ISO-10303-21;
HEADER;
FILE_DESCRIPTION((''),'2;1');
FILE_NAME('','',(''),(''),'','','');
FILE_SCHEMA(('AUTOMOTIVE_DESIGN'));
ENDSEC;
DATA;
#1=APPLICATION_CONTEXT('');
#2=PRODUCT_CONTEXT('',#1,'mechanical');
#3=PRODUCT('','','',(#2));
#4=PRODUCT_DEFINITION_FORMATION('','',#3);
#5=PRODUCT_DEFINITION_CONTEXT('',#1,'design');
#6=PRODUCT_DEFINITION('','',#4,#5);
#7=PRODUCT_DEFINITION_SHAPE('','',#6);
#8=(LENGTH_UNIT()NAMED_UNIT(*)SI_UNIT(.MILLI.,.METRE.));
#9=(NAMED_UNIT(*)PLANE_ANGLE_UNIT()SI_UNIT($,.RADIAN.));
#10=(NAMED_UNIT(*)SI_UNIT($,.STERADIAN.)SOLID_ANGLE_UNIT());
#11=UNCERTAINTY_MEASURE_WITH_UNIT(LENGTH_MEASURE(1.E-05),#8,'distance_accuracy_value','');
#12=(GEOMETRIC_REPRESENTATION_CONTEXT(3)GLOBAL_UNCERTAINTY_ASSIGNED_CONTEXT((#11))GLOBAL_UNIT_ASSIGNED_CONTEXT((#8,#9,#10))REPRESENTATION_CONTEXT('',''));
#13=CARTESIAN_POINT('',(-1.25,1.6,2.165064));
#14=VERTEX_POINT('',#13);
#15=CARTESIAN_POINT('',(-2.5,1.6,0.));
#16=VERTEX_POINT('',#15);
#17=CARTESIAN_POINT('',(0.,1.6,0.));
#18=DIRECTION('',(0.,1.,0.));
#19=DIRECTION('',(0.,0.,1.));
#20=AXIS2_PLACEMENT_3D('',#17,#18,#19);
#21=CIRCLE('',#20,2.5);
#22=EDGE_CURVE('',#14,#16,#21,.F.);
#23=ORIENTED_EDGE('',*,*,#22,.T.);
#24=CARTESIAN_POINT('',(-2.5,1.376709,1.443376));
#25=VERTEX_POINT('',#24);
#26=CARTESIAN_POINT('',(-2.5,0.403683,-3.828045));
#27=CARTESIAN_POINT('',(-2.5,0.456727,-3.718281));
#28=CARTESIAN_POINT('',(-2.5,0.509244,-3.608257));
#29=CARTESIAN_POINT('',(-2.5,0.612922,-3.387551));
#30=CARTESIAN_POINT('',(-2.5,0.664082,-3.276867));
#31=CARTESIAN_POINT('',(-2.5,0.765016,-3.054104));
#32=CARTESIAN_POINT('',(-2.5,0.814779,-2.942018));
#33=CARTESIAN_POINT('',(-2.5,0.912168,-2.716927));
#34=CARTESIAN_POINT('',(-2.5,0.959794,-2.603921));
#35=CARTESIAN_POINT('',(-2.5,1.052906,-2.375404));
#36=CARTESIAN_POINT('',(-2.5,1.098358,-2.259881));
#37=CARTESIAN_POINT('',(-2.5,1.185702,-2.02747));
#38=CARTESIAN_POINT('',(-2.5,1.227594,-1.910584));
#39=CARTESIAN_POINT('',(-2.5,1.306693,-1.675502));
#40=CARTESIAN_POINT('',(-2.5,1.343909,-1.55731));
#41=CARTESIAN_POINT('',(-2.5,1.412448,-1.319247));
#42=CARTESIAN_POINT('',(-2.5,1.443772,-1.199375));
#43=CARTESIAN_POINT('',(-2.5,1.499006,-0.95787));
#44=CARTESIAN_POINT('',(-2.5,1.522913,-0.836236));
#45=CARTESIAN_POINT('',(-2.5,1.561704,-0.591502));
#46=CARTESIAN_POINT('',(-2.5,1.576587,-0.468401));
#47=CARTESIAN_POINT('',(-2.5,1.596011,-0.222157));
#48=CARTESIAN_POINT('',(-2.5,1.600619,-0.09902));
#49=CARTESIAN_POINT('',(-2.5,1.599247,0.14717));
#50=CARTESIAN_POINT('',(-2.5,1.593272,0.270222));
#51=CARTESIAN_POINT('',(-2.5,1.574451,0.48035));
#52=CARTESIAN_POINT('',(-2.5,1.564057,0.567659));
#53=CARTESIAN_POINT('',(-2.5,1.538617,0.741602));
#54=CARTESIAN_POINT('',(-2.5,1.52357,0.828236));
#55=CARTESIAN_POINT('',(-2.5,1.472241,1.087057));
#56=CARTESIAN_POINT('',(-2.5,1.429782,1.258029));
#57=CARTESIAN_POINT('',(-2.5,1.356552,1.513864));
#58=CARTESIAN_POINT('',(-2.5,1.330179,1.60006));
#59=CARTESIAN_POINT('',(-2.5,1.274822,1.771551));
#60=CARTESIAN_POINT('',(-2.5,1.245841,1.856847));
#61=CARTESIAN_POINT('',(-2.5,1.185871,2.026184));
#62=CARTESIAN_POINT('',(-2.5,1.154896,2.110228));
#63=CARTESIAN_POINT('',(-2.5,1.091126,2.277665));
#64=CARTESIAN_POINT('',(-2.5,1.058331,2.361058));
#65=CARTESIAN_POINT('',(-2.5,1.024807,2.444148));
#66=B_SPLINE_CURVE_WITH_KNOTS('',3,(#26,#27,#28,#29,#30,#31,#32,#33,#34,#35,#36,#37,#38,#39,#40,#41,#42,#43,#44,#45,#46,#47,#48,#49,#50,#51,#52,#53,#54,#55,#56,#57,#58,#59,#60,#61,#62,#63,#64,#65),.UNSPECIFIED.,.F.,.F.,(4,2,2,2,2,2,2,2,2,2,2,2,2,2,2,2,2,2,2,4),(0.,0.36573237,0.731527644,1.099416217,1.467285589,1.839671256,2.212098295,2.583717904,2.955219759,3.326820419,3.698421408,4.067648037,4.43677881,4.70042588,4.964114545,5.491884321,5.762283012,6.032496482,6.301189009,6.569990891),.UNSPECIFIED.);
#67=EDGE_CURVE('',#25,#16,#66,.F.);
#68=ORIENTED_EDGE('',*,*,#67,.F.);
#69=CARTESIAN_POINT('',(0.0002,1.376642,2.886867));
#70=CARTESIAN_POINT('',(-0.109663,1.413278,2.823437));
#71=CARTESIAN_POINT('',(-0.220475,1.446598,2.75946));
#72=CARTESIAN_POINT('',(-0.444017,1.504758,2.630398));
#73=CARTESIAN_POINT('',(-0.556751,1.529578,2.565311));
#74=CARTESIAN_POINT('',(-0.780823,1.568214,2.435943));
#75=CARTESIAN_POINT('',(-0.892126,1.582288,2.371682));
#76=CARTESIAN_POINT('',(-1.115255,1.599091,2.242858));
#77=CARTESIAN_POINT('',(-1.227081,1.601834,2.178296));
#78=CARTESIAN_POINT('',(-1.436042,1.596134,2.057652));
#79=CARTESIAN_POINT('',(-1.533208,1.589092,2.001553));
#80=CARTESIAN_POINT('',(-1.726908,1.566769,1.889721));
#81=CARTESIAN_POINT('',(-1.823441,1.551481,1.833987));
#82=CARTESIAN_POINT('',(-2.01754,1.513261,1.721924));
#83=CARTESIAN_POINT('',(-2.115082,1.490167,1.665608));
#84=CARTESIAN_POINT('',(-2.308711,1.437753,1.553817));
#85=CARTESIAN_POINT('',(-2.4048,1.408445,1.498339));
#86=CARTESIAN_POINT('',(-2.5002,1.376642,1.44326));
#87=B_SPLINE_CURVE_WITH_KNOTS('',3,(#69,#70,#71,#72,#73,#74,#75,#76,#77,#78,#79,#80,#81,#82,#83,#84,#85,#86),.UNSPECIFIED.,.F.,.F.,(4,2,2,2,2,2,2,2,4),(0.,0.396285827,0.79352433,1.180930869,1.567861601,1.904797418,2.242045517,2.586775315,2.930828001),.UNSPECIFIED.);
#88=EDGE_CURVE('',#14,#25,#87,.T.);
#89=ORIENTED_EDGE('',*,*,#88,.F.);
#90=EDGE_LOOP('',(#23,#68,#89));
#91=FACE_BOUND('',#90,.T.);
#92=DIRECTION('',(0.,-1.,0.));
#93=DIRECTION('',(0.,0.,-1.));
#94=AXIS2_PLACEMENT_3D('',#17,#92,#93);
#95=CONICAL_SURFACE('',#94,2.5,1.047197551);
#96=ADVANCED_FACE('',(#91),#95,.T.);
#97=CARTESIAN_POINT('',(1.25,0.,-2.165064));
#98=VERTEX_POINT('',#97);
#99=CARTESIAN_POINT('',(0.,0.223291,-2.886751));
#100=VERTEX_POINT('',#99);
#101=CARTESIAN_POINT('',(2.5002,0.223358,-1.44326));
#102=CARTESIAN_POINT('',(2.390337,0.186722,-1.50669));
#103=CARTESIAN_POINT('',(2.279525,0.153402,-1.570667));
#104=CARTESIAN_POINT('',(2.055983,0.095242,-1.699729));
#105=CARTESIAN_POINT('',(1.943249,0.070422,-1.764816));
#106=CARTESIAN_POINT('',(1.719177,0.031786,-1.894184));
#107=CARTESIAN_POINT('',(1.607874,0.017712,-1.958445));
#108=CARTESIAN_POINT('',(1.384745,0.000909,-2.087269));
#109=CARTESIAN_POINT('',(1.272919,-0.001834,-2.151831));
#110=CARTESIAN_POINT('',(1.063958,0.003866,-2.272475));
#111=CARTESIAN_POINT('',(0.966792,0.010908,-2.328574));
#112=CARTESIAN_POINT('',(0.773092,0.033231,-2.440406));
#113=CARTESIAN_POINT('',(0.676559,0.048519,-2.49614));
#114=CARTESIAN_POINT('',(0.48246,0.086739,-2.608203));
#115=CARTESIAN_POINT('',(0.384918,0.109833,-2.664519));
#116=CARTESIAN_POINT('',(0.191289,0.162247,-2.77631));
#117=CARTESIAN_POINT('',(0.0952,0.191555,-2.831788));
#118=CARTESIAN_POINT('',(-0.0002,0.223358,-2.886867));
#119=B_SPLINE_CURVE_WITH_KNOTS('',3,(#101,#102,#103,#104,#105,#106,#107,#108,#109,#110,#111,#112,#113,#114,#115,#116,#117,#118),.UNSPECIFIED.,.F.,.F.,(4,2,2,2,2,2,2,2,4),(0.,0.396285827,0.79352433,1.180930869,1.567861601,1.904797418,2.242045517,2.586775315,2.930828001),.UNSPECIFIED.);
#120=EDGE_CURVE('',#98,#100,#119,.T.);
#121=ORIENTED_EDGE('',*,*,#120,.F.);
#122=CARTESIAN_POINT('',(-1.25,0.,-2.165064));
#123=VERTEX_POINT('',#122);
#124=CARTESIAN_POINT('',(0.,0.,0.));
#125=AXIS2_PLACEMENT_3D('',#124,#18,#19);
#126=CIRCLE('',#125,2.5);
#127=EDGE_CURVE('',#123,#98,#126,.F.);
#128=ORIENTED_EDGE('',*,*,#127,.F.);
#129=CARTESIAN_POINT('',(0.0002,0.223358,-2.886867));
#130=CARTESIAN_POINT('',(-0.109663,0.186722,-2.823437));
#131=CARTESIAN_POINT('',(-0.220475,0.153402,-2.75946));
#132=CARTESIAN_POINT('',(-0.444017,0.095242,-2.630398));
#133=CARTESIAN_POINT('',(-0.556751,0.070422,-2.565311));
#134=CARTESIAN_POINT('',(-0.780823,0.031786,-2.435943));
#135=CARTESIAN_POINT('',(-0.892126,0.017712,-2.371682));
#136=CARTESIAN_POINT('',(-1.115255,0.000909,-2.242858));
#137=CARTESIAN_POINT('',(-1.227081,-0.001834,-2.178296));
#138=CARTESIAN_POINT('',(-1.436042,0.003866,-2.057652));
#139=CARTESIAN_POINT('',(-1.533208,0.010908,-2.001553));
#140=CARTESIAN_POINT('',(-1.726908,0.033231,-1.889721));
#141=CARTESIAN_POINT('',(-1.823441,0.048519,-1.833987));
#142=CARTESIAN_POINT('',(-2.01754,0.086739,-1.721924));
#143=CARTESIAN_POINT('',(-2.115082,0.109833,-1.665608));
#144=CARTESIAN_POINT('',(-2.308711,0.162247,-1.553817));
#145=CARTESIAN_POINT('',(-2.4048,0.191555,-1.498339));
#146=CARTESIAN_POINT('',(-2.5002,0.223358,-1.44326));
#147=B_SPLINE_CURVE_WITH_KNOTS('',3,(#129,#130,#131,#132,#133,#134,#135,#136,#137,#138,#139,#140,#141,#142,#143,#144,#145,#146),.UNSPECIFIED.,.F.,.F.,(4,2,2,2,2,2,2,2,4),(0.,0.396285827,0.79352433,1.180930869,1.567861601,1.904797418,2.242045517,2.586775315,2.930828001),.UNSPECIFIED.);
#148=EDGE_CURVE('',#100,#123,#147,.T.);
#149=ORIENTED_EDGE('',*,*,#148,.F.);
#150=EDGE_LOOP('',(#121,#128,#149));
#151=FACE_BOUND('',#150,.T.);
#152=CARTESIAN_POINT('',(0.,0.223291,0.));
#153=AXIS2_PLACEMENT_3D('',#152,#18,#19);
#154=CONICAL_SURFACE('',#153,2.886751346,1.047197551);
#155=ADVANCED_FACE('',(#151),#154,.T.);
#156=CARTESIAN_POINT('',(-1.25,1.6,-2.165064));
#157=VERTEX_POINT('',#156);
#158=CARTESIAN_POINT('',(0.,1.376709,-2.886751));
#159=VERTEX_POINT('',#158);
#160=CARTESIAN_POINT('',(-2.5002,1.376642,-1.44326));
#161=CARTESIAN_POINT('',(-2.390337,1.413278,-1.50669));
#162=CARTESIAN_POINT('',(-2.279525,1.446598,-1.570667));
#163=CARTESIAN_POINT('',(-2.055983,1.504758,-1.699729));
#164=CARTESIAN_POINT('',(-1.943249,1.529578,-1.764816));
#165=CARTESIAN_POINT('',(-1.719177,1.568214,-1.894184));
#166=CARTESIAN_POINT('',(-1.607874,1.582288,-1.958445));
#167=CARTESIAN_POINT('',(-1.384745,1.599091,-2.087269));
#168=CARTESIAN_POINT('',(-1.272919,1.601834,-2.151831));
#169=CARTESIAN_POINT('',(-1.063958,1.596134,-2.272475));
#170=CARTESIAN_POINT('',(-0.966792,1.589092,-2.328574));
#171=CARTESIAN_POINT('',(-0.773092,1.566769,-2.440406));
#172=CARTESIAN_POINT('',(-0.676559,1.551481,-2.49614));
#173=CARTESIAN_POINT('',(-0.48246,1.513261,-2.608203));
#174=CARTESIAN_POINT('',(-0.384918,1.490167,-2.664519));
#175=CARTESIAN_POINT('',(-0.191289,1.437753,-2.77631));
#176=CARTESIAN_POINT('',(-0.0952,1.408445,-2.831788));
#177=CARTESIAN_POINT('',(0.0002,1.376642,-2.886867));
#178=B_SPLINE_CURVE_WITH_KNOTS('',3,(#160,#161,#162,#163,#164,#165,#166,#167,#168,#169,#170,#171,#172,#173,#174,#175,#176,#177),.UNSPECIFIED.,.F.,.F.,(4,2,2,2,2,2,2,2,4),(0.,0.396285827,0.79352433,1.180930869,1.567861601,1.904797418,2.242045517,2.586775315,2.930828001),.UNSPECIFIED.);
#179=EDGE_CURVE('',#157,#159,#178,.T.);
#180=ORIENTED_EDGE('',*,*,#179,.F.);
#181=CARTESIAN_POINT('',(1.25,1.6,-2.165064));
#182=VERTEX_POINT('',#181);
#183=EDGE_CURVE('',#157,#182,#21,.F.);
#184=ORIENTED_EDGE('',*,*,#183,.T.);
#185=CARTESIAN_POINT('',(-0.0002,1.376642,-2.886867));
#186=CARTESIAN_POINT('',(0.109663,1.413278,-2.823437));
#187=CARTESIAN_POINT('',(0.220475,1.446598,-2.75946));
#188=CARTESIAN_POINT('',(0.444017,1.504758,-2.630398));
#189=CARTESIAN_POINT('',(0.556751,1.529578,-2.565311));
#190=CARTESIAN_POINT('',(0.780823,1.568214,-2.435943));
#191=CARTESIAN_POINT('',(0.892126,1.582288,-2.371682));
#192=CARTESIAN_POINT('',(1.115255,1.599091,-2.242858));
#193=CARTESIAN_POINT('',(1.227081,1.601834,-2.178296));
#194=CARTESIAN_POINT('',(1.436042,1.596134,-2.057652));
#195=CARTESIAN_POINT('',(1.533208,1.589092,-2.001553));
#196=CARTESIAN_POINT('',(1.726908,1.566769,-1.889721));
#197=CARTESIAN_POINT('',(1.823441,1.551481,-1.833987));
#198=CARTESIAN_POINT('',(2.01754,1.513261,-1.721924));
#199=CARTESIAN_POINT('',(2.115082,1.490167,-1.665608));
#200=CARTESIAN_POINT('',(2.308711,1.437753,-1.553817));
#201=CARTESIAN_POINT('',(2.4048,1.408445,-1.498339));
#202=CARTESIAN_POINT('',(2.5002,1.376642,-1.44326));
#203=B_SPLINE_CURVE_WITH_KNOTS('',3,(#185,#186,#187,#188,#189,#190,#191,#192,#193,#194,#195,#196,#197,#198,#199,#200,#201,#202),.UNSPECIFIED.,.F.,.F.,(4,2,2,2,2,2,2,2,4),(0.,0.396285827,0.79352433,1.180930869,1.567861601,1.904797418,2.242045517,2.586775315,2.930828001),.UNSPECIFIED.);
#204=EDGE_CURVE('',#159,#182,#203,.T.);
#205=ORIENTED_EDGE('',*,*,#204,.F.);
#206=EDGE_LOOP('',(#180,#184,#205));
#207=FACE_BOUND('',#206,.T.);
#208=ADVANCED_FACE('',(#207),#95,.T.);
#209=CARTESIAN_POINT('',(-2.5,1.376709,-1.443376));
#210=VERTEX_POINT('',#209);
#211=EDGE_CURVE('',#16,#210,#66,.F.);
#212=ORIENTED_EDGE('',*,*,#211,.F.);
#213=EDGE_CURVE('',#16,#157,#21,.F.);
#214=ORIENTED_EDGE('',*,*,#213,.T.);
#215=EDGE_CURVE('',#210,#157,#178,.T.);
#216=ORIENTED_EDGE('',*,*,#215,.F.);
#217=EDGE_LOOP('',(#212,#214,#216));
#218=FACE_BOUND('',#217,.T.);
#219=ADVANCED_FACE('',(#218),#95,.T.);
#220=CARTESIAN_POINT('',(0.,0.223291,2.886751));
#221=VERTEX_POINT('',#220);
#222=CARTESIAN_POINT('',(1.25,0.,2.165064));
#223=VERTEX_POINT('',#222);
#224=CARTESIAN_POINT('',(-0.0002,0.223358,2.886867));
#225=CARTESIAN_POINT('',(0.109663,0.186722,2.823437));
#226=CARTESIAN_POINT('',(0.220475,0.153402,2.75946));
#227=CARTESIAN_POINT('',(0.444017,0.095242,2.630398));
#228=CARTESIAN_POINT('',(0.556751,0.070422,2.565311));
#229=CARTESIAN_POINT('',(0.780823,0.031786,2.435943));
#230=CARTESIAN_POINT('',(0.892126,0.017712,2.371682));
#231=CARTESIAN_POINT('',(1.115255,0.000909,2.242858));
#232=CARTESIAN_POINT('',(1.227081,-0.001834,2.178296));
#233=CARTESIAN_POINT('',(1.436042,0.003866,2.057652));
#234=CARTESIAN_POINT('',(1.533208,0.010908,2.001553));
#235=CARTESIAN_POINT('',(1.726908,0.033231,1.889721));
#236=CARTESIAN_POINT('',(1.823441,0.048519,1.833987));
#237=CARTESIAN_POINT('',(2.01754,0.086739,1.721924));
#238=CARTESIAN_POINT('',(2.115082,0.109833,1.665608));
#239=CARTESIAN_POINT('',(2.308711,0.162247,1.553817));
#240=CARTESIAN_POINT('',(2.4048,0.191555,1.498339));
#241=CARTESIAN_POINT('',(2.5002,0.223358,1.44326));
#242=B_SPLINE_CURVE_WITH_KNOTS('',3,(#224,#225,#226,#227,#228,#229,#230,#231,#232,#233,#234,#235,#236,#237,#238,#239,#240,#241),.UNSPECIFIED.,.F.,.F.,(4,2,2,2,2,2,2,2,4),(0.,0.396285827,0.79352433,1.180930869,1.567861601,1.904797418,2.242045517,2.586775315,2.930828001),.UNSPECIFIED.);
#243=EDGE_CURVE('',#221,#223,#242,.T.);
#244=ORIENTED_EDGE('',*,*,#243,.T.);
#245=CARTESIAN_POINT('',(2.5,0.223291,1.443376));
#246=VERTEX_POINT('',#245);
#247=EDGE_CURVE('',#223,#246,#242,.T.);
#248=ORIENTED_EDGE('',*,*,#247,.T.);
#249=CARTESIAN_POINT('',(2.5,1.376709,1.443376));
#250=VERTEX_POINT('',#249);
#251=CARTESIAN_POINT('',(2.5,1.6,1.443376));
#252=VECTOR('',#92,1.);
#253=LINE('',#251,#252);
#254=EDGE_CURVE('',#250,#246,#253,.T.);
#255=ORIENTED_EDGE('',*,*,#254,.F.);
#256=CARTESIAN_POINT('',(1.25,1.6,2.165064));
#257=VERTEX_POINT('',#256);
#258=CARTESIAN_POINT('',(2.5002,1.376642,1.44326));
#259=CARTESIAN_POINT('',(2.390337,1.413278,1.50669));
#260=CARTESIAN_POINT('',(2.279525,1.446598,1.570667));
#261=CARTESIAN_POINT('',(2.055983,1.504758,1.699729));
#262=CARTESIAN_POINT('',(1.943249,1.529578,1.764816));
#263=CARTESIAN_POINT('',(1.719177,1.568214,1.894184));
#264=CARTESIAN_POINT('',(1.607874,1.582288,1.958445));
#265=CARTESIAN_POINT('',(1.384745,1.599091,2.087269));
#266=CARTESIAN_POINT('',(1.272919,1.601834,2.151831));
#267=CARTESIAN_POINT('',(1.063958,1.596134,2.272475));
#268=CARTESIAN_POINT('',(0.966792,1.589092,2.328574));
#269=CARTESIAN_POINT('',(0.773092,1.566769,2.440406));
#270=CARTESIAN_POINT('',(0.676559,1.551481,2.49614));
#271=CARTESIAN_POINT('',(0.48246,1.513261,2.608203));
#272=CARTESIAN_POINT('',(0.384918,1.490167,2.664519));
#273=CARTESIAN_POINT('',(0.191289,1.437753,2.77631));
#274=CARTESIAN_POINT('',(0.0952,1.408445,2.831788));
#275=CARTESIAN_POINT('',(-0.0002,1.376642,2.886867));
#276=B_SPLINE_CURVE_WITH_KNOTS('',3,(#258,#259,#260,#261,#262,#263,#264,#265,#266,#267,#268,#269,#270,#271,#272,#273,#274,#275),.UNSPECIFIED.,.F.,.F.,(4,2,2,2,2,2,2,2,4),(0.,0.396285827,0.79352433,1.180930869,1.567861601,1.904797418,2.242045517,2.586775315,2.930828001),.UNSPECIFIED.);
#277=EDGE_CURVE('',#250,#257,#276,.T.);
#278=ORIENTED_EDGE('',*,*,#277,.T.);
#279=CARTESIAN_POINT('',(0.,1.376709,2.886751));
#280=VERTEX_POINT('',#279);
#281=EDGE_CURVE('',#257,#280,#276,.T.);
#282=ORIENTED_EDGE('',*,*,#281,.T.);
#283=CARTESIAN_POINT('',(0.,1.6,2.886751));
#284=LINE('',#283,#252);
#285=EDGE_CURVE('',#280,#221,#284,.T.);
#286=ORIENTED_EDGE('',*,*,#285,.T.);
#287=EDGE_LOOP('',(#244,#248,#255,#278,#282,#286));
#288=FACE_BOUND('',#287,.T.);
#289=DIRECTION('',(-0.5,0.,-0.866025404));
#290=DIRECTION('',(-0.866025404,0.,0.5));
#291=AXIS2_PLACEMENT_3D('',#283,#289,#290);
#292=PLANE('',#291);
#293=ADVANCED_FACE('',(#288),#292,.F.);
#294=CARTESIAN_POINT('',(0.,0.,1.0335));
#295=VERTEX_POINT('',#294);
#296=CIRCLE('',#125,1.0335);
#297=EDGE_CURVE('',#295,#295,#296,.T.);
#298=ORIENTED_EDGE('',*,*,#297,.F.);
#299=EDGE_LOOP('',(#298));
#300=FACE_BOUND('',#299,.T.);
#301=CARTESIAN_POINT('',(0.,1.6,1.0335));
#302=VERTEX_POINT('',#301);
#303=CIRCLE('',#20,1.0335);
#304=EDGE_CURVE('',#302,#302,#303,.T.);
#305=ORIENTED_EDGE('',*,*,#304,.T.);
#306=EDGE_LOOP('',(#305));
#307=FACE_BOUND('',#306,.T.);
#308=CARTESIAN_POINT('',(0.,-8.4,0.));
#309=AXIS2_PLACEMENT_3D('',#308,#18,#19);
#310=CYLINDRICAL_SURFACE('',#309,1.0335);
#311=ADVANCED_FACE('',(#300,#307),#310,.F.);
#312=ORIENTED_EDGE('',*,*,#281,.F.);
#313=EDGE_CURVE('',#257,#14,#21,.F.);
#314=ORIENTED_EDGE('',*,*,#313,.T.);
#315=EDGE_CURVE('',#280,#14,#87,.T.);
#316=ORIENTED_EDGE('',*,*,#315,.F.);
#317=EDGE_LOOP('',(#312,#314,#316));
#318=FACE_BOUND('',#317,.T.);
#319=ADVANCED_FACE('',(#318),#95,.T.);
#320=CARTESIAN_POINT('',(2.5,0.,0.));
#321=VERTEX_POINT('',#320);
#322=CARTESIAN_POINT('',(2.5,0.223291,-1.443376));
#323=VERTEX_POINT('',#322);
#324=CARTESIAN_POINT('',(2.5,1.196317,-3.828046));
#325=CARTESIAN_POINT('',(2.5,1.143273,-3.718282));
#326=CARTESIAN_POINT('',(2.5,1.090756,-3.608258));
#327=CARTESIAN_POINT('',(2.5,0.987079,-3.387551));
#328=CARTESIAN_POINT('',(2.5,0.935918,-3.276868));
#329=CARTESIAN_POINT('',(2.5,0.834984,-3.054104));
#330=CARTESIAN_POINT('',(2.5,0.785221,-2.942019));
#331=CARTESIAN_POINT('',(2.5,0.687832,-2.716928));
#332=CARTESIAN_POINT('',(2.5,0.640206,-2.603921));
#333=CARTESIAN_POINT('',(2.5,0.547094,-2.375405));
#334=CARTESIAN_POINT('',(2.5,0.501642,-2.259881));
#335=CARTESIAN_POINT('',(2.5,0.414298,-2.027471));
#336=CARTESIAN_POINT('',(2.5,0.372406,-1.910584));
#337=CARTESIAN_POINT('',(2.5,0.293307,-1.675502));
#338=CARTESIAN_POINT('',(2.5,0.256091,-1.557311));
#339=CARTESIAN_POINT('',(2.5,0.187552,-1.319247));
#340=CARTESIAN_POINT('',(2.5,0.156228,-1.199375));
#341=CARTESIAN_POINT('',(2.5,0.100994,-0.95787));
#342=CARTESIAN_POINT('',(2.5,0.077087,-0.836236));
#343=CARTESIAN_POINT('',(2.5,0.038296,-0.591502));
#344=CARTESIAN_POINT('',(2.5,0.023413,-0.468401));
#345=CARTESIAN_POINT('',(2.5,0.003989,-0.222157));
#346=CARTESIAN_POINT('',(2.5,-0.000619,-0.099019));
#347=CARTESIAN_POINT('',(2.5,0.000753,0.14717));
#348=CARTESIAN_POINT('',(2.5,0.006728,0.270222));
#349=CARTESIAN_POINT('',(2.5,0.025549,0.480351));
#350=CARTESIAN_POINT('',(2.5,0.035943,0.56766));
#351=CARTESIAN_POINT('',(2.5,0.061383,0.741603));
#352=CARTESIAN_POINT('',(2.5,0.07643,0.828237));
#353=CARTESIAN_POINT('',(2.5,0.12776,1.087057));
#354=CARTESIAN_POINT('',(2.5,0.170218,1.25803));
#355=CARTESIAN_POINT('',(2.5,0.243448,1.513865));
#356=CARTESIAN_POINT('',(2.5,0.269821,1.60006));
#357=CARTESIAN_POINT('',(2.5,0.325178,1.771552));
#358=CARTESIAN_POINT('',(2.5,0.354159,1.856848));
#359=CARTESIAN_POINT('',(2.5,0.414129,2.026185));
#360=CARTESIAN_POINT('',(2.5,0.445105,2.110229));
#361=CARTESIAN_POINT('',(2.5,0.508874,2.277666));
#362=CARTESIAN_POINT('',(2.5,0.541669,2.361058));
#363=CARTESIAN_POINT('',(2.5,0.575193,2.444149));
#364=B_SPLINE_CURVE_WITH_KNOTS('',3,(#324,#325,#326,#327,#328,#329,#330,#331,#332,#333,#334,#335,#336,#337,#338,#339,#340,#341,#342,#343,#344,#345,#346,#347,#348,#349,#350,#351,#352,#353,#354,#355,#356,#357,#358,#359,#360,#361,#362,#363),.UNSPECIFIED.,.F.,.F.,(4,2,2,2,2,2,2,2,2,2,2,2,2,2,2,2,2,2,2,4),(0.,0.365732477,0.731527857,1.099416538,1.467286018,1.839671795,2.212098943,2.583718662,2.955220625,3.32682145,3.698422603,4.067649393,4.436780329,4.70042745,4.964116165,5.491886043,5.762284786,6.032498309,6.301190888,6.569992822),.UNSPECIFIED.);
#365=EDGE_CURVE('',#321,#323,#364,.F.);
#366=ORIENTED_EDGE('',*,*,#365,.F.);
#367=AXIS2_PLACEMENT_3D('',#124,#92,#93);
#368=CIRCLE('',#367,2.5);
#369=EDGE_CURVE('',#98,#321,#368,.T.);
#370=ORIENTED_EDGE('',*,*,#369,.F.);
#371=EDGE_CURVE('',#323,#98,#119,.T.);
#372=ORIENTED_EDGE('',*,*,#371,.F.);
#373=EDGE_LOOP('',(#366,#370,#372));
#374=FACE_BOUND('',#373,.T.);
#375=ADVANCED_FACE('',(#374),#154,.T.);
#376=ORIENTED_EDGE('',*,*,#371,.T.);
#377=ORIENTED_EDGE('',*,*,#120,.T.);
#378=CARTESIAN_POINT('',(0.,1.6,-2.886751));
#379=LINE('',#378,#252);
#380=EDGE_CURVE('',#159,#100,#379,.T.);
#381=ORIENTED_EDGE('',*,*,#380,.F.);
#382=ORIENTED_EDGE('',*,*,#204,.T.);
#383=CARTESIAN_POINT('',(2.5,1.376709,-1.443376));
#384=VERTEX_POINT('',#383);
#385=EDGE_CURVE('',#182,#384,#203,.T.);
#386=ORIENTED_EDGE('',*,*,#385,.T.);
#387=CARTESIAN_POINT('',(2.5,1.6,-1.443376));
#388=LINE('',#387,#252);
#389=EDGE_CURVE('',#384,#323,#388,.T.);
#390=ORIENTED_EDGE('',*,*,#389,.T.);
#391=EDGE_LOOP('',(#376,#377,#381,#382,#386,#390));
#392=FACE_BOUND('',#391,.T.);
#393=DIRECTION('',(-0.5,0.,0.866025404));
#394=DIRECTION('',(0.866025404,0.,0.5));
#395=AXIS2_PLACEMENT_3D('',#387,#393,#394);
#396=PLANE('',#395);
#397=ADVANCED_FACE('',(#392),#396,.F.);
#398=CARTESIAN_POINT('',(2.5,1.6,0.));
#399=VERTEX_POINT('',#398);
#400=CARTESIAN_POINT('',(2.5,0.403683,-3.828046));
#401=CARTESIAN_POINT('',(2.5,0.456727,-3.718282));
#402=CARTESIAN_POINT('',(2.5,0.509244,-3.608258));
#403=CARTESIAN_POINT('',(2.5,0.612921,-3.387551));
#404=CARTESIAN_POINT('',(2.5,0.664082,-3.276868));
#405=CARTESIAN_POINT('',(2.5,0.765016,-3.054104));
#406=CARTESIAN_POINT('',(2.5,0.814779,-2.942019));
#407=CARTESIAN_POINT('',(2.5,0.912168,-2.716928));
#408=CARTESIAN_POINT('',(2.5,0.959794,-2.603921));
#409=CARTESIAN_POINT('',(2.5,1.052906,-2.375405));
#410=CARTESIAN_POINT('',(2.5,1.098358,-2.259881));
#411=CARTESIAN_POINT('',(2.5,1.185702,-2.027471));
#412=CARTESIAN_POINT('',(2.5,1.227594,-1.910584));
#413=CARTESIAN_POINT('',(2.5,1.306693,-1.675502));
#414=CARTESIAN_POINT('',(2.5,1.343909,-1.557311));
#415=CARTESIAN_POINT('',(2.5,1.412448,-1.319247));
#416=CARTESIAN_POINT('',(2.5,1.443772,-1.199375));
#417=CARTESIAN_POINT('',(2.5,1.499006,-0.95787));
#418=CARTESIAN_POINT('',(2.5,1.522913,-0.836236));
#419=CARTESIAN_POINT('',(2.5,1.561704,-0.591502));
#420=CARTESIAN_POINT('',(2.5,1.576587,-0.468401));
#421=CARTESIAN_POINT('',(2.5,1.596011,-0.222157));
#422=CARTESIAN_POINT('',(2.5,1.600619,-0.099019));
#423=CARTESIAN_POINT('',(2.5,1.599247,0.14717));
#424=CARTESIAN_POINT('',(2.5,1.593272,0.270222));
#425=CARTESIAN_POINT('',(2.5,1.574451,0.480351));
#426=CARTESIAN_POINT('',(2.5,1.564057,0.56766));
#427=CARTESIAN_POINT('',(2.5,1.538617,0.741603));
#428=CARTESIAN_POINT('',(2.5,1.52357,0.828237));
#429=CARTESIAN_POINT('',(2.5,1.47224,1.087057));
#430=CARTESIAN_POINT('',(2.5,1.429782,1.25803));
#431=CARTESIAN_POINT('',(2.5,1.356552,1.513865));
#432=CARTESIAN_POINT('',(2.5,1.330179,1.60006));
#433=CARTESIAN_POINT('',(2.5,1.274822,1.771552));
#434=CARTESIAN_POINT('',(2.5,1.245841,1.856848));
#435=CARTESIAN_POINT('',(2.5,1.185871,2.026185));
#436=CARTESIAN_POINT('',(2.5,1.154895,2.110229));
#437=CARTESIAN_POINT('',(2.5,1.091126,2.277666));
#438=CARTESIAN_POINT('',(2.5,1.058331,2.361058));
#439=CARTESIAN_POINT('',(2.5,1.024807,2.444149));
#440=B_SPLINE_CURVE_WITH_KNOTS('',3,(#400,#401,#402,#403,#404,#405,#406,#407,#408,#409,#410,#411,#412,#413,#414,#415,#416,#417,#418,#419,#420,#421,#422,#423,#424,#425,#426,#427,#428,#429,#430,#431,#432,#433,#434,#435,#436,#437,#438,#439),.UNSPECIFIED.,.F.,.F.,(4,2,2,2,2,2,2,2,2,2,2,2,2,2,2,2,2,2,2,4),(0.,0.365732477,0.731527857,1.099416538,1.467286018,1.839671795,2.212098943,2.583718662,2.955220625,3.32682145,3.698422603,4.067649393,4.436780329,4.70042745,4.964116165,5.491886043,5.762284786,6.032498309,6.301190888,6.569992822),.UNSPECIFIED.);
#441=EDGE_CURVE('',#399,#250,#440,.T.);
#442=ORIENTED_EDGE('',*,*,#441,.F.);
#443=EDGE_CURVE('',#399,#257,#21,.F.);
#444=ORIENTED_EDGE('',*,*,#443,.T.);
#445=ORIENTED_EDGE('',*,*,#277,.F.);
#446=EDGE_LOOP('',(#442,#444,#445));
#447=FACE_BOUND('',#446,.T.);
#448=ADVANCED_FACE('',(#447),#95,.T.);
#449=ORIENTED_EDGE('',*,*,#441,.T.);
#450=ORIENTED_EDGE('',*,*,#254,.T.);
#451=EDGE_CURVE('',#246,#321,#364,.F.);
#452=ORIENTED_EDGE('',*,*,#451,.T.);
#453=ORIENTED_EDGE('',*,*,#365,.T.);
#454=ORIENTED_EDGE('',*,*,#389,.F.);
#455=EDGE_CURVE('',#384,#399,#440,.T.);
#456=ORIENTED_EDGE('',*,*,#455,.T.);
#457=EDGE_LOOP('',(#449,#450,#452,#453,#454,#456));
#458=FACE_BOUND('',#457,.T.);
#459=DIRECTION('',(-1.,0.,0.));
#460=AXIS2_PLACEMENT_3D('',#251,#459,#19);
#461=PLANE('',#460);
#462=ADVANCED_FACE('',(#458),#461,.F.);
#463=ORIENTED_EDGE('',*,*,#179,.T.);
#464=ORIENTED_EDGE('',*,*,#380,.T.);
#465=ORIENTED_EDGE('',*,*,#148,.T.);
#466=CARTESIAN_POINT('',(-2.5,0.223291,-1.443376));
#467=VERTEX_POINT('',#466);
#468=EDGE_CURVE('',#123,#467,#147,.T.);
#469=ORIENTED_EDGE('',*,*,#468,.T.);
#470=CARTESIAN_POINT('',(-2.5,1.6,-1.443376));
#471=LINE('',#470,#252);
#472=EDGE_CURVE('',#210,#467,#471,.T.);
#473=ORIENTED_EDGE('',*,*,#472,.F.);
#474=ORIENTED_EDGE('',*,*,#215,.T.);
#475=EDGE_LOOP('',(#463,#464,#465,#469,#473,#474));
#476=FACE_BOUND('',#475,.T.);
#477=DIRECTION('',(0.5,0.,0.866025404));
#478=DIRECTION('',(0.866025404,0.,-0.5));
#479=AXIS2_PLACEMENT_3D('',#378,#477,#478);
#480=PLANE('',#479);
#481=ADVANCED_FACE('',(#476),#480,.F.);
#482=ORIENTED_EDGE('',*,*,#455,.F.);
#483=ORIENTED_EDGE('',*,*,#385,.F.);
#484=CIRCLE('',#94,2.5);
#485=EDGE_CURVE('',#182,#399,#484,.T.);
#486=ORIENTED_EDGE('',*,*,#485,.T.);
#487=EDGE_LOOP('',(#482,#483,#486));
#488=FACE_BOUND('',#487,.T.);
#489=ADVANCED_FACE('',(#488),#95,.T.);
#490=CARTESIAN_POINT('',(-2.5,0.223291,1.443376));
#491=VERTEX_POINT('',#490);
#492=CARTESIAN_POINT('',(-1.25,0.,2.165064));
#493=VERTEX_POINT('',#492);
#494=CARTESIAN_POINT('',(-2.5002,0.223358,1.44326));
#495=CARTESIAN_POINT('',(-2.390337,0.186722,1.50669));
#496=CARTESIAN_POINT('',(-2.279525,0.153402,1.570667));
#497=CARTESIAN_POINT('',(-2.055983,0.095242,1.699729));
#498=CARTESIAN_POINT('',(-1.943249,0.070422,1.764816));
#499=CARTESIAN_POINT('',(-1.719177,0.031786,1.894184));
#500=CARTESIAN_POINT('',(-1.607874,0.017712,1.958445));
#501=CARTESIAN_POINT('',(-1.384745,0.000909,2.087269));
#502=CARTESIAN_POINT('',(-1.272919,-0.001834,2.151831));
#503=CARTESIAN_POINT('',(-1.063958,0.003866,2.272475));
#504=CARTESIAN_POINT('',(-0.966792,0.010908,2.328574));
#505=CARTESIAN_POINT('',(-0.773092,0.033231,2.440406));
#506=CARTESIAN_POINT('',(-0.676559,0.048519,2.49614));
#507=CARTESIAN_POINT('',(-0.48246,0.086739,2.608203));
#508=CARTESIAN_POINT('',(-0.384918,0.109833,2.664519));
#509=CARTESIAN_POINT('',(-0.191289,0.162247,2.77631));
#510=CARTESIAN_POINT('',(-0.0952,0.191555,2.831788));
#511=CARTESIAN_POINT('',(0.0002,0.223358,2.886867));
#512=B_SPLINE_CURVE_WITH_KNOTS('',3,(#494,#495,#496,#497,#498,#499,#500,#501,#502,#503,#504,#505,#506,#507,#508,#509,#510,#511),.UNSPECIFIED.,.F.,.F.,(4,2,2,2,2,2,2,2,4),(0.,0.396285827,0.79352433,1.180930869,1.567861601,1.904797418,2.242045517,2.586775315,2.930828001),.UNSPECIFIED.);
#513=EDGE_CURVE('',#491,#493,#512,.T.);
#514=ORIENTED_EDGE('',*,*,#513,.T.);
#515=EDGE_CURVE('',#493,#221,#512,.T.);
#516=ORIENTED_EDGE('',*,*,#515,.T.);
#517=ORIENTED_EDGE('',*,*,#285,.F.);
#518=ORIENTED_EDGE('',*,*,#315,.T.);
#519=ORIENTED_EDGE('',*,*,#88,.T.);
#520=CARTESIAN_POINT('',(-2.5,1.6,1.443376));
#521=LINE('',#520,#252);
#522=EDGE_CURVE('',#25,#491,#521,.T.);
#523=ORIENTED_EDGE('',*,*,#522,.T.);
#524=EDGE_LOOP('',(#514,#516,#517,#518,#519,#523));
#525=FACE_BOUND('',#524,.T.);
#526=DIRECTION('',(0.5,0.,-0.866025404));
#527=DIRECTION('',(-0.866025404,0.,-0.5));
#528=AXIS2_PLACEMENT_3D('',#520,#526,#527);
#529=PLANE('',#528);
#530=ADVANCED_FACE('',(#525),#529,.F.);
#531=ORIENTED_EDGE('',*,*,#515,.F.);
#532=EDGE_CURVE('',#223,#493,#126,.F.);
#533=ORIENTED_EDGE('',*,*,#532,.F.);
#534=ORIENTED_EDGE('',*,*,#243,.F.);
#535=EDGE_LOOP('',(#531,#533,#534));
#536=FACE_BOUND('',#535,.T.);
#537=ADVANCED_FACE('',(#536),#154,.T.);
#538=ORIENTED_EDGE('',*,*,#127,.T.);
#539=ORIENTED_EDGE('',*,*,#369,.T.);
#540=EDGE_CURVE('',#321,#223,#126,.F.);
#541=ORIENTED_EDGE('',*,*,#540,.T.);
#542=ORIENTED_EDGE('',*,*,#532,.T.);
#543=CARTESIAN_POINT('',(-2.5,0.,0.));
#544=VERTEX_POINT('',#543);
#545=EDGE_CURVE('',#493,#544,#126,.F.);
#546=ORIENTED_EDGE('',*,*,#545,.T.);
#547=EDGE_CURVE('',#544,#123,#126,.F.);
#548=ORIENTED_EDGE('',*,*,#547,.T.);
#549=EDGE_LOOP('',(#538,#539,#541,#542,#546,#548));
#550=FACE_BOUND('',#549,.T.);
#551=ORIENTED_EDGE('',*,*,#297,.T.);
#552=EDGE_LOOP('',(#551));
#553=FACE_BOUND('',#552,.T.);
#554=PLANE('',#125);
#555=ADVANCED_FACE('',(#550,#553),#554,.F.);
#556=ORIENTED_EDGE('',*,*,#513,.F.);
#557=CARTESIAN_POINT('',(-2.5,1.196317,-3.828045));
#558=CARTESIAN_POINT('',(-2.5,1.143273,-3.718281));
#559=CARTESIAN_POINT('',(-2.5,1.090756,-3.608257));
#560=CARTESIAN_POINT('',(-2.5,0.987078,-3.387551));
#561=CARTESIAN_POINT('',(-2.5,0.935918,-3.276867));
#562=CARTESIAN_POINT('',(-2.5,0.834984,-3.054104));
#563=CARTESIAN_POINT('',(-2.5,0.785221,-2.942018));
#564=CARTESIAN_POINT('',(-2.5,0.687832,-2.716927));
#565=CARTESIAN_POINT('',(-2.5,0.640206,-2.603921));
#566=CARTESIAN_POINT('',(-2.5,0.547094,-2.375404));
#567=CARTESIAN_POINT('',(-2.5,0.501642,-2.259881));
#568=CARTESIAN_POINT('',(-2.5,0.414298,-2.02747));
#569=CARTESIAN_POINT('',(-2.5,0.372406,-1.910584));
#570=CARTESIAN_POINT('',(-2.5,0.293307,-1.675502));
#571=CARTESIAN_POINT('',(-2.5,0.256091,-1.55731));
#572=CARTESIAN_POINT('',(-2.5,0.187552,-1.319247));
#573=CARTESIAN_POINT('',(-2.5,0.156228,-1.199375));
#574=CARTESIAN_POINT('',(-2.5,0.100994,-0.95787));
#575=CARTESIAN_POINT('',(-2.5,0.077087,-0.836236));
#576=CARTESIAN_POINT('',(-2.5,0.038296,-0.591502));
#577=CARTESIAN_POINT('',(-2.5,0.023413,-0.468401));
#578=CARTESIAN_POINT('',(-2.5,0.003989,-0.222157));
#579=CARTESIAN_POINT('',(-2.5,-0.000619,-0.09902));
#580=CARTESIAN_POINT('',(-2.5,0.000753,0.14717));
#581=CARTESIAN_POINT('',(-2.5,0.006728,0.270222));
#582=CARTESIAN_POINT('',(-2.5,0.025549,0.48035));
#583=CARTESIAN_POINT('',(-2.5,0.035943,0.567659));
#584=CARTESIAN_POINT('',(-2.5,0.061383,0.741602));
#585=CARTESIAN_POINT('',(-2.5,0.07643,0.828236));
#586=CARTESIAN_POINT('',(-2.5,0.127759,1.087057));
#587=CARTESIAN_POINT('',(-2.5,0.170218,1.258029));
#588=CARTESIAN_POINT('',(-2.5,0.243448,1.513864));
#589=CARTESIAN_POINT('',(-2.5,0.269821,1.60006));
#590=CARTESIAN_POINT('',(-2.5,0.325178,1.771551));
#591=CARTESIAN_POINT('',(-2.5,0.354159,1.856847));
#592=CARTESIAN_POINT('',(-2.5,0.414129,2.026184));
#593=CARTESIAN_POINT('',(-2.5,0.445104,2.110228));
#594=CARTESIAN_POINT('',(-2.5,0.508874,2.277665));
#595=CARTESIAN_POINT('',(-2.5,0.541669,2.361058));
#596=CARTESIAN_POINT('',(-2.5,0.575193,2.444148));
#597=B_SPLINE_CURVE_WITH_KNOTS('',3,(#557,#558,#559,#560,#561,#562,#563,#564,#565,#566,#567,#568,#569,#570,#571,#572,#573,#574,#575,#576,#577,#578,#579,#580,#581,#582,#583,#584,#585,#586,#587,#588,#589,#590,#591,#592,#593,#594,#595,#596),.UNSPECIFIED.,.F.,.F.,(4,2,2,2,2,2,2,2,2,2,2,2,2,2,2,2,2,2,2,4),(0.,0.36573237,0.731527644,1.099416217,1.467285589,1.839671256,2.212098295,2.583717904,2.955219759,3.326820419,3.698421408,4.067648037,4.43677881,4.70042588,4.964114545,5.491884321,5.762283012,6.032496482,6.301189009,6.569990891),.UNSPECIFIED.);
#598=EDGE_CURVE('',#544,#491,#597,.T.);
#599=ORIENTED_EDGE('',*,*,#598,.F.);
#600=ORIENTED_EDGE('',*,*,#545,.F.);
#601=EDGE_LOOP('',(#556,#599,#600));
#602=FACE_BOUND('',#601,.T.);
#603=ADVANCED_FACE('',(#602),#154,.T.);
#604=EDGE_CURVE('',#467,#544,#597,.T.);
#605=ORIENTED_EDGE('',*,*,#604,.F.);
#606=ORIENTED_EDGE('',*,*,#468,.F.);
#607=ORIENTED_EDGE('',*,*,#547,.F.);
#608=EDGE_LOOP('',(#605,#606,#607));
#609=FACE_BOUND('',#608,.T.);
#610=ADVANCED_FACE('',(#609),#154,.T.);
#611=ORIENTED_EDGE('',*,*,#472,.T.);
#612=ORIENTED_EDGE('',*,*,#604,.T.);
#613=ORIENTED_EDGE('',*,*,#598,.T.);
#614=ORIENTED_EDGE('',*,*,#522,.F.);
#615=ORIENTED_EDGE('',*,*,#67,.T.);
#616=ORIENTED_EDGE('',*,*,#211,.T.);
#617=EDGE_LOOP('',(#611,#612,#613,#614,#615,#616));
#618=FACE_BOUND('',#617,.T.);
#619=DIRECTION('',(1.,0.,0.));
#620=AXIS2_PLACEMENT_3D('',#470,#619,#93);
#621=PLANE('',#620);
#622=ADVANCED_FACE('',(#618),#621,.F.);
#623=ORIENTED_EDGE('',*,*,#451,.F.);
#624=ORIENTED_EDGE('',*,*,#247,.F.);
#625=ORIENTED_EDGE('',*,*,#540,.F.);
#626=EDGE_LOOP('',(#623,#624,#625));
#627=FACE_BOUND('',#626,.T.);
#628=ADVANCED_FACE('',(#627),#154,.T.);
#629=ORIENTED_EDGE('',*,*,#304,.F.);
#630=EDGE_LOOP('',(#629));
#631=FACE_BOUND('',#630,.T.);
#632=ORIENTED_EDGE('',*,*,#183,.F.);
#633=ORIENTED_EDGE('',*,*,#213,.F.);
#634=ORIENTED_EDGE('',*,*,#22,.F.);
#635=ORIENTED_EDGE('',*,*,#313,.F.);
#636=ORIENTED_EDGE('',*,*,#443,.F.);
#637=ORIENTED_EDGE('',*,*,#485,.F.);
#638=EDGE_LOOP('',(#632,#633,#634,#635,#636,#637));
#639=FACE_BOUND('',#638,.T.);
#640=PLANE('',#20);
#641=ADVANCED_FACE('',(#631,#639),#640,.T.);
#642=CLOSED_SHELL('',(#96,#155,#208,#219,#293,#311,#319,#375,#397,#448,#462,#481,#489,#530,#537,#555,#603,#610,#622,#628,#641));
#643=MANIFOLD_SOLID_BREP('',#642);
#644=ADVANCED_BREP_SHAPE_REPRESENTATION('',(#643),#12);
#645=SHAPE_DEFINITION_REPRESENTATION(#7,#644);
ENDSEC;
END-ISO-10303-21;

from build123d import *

# Parameters (mm, degrees)
EXTRUDE_1_DEPTH    = 1.6
SKETCH_4_R         = 1.0335
CUT_EXTRUDE1_DEPTH = 10


with BuildPart() as part:
    # 草图1 → 凸台-拉伸1 (new body)
    with BuildSketch(Plane(origin=(0, 0, 0), x_dir=(1, 0, 0), z_dir=(0, 1, 0))):
        Polygon((0, 2.886751346), (-2.5, 1.443375673), (-2.5, -1.443375673), (0, -2.886751346), (2.5, -1.443375673), (2.5, 1.443375673), align=None)
    extrude(amount=EXTRUDE_1_DEPTH)

    # 草图2 → 切除-旋转1 (revolve, cut)
    with BuildSketch(Plane(origin=(0, 0, 0), x_dir=(0, 0, -1), z_dir=(1, 0, 0))):
        Polygon((2.886751346, 1.6), (2.886751346, 1.376709006), (2.5, 1.6), align=None)
    revolve(axis=Axis((0, 0, 0), (0, 1, 0)), mode=Mode.SUBTRACT)

    # 草图3 → 切除-旋转2 (revolve, cut)
    with BuildSketch(Plane(origin=(0, 0, 0), x_dir=(0, 0, -1), z_dir=(1, 0, 0))):
        Polygon((2.886751346, 0), (2.886751346, 0.223290994), (2.5, 0), align=None)
    revolve(axis=Axis((0, 0, 0), (0, 1, 0)), mode=Mode.SUBTRACT)

    # 草图4 → Cut-Extrude1 (cut)
    with BuildSketch(Plane(origin=(0, 1.6, 0), x_dir=(1, 0, 0), z_dir=(0, 1, 0))):
        Circle(SKETCH_4_R)
    extrude(amount=-CUT_EXTRUDE1_DEPTH, mode=Mode.SUBTRACT)


solid = part.part
